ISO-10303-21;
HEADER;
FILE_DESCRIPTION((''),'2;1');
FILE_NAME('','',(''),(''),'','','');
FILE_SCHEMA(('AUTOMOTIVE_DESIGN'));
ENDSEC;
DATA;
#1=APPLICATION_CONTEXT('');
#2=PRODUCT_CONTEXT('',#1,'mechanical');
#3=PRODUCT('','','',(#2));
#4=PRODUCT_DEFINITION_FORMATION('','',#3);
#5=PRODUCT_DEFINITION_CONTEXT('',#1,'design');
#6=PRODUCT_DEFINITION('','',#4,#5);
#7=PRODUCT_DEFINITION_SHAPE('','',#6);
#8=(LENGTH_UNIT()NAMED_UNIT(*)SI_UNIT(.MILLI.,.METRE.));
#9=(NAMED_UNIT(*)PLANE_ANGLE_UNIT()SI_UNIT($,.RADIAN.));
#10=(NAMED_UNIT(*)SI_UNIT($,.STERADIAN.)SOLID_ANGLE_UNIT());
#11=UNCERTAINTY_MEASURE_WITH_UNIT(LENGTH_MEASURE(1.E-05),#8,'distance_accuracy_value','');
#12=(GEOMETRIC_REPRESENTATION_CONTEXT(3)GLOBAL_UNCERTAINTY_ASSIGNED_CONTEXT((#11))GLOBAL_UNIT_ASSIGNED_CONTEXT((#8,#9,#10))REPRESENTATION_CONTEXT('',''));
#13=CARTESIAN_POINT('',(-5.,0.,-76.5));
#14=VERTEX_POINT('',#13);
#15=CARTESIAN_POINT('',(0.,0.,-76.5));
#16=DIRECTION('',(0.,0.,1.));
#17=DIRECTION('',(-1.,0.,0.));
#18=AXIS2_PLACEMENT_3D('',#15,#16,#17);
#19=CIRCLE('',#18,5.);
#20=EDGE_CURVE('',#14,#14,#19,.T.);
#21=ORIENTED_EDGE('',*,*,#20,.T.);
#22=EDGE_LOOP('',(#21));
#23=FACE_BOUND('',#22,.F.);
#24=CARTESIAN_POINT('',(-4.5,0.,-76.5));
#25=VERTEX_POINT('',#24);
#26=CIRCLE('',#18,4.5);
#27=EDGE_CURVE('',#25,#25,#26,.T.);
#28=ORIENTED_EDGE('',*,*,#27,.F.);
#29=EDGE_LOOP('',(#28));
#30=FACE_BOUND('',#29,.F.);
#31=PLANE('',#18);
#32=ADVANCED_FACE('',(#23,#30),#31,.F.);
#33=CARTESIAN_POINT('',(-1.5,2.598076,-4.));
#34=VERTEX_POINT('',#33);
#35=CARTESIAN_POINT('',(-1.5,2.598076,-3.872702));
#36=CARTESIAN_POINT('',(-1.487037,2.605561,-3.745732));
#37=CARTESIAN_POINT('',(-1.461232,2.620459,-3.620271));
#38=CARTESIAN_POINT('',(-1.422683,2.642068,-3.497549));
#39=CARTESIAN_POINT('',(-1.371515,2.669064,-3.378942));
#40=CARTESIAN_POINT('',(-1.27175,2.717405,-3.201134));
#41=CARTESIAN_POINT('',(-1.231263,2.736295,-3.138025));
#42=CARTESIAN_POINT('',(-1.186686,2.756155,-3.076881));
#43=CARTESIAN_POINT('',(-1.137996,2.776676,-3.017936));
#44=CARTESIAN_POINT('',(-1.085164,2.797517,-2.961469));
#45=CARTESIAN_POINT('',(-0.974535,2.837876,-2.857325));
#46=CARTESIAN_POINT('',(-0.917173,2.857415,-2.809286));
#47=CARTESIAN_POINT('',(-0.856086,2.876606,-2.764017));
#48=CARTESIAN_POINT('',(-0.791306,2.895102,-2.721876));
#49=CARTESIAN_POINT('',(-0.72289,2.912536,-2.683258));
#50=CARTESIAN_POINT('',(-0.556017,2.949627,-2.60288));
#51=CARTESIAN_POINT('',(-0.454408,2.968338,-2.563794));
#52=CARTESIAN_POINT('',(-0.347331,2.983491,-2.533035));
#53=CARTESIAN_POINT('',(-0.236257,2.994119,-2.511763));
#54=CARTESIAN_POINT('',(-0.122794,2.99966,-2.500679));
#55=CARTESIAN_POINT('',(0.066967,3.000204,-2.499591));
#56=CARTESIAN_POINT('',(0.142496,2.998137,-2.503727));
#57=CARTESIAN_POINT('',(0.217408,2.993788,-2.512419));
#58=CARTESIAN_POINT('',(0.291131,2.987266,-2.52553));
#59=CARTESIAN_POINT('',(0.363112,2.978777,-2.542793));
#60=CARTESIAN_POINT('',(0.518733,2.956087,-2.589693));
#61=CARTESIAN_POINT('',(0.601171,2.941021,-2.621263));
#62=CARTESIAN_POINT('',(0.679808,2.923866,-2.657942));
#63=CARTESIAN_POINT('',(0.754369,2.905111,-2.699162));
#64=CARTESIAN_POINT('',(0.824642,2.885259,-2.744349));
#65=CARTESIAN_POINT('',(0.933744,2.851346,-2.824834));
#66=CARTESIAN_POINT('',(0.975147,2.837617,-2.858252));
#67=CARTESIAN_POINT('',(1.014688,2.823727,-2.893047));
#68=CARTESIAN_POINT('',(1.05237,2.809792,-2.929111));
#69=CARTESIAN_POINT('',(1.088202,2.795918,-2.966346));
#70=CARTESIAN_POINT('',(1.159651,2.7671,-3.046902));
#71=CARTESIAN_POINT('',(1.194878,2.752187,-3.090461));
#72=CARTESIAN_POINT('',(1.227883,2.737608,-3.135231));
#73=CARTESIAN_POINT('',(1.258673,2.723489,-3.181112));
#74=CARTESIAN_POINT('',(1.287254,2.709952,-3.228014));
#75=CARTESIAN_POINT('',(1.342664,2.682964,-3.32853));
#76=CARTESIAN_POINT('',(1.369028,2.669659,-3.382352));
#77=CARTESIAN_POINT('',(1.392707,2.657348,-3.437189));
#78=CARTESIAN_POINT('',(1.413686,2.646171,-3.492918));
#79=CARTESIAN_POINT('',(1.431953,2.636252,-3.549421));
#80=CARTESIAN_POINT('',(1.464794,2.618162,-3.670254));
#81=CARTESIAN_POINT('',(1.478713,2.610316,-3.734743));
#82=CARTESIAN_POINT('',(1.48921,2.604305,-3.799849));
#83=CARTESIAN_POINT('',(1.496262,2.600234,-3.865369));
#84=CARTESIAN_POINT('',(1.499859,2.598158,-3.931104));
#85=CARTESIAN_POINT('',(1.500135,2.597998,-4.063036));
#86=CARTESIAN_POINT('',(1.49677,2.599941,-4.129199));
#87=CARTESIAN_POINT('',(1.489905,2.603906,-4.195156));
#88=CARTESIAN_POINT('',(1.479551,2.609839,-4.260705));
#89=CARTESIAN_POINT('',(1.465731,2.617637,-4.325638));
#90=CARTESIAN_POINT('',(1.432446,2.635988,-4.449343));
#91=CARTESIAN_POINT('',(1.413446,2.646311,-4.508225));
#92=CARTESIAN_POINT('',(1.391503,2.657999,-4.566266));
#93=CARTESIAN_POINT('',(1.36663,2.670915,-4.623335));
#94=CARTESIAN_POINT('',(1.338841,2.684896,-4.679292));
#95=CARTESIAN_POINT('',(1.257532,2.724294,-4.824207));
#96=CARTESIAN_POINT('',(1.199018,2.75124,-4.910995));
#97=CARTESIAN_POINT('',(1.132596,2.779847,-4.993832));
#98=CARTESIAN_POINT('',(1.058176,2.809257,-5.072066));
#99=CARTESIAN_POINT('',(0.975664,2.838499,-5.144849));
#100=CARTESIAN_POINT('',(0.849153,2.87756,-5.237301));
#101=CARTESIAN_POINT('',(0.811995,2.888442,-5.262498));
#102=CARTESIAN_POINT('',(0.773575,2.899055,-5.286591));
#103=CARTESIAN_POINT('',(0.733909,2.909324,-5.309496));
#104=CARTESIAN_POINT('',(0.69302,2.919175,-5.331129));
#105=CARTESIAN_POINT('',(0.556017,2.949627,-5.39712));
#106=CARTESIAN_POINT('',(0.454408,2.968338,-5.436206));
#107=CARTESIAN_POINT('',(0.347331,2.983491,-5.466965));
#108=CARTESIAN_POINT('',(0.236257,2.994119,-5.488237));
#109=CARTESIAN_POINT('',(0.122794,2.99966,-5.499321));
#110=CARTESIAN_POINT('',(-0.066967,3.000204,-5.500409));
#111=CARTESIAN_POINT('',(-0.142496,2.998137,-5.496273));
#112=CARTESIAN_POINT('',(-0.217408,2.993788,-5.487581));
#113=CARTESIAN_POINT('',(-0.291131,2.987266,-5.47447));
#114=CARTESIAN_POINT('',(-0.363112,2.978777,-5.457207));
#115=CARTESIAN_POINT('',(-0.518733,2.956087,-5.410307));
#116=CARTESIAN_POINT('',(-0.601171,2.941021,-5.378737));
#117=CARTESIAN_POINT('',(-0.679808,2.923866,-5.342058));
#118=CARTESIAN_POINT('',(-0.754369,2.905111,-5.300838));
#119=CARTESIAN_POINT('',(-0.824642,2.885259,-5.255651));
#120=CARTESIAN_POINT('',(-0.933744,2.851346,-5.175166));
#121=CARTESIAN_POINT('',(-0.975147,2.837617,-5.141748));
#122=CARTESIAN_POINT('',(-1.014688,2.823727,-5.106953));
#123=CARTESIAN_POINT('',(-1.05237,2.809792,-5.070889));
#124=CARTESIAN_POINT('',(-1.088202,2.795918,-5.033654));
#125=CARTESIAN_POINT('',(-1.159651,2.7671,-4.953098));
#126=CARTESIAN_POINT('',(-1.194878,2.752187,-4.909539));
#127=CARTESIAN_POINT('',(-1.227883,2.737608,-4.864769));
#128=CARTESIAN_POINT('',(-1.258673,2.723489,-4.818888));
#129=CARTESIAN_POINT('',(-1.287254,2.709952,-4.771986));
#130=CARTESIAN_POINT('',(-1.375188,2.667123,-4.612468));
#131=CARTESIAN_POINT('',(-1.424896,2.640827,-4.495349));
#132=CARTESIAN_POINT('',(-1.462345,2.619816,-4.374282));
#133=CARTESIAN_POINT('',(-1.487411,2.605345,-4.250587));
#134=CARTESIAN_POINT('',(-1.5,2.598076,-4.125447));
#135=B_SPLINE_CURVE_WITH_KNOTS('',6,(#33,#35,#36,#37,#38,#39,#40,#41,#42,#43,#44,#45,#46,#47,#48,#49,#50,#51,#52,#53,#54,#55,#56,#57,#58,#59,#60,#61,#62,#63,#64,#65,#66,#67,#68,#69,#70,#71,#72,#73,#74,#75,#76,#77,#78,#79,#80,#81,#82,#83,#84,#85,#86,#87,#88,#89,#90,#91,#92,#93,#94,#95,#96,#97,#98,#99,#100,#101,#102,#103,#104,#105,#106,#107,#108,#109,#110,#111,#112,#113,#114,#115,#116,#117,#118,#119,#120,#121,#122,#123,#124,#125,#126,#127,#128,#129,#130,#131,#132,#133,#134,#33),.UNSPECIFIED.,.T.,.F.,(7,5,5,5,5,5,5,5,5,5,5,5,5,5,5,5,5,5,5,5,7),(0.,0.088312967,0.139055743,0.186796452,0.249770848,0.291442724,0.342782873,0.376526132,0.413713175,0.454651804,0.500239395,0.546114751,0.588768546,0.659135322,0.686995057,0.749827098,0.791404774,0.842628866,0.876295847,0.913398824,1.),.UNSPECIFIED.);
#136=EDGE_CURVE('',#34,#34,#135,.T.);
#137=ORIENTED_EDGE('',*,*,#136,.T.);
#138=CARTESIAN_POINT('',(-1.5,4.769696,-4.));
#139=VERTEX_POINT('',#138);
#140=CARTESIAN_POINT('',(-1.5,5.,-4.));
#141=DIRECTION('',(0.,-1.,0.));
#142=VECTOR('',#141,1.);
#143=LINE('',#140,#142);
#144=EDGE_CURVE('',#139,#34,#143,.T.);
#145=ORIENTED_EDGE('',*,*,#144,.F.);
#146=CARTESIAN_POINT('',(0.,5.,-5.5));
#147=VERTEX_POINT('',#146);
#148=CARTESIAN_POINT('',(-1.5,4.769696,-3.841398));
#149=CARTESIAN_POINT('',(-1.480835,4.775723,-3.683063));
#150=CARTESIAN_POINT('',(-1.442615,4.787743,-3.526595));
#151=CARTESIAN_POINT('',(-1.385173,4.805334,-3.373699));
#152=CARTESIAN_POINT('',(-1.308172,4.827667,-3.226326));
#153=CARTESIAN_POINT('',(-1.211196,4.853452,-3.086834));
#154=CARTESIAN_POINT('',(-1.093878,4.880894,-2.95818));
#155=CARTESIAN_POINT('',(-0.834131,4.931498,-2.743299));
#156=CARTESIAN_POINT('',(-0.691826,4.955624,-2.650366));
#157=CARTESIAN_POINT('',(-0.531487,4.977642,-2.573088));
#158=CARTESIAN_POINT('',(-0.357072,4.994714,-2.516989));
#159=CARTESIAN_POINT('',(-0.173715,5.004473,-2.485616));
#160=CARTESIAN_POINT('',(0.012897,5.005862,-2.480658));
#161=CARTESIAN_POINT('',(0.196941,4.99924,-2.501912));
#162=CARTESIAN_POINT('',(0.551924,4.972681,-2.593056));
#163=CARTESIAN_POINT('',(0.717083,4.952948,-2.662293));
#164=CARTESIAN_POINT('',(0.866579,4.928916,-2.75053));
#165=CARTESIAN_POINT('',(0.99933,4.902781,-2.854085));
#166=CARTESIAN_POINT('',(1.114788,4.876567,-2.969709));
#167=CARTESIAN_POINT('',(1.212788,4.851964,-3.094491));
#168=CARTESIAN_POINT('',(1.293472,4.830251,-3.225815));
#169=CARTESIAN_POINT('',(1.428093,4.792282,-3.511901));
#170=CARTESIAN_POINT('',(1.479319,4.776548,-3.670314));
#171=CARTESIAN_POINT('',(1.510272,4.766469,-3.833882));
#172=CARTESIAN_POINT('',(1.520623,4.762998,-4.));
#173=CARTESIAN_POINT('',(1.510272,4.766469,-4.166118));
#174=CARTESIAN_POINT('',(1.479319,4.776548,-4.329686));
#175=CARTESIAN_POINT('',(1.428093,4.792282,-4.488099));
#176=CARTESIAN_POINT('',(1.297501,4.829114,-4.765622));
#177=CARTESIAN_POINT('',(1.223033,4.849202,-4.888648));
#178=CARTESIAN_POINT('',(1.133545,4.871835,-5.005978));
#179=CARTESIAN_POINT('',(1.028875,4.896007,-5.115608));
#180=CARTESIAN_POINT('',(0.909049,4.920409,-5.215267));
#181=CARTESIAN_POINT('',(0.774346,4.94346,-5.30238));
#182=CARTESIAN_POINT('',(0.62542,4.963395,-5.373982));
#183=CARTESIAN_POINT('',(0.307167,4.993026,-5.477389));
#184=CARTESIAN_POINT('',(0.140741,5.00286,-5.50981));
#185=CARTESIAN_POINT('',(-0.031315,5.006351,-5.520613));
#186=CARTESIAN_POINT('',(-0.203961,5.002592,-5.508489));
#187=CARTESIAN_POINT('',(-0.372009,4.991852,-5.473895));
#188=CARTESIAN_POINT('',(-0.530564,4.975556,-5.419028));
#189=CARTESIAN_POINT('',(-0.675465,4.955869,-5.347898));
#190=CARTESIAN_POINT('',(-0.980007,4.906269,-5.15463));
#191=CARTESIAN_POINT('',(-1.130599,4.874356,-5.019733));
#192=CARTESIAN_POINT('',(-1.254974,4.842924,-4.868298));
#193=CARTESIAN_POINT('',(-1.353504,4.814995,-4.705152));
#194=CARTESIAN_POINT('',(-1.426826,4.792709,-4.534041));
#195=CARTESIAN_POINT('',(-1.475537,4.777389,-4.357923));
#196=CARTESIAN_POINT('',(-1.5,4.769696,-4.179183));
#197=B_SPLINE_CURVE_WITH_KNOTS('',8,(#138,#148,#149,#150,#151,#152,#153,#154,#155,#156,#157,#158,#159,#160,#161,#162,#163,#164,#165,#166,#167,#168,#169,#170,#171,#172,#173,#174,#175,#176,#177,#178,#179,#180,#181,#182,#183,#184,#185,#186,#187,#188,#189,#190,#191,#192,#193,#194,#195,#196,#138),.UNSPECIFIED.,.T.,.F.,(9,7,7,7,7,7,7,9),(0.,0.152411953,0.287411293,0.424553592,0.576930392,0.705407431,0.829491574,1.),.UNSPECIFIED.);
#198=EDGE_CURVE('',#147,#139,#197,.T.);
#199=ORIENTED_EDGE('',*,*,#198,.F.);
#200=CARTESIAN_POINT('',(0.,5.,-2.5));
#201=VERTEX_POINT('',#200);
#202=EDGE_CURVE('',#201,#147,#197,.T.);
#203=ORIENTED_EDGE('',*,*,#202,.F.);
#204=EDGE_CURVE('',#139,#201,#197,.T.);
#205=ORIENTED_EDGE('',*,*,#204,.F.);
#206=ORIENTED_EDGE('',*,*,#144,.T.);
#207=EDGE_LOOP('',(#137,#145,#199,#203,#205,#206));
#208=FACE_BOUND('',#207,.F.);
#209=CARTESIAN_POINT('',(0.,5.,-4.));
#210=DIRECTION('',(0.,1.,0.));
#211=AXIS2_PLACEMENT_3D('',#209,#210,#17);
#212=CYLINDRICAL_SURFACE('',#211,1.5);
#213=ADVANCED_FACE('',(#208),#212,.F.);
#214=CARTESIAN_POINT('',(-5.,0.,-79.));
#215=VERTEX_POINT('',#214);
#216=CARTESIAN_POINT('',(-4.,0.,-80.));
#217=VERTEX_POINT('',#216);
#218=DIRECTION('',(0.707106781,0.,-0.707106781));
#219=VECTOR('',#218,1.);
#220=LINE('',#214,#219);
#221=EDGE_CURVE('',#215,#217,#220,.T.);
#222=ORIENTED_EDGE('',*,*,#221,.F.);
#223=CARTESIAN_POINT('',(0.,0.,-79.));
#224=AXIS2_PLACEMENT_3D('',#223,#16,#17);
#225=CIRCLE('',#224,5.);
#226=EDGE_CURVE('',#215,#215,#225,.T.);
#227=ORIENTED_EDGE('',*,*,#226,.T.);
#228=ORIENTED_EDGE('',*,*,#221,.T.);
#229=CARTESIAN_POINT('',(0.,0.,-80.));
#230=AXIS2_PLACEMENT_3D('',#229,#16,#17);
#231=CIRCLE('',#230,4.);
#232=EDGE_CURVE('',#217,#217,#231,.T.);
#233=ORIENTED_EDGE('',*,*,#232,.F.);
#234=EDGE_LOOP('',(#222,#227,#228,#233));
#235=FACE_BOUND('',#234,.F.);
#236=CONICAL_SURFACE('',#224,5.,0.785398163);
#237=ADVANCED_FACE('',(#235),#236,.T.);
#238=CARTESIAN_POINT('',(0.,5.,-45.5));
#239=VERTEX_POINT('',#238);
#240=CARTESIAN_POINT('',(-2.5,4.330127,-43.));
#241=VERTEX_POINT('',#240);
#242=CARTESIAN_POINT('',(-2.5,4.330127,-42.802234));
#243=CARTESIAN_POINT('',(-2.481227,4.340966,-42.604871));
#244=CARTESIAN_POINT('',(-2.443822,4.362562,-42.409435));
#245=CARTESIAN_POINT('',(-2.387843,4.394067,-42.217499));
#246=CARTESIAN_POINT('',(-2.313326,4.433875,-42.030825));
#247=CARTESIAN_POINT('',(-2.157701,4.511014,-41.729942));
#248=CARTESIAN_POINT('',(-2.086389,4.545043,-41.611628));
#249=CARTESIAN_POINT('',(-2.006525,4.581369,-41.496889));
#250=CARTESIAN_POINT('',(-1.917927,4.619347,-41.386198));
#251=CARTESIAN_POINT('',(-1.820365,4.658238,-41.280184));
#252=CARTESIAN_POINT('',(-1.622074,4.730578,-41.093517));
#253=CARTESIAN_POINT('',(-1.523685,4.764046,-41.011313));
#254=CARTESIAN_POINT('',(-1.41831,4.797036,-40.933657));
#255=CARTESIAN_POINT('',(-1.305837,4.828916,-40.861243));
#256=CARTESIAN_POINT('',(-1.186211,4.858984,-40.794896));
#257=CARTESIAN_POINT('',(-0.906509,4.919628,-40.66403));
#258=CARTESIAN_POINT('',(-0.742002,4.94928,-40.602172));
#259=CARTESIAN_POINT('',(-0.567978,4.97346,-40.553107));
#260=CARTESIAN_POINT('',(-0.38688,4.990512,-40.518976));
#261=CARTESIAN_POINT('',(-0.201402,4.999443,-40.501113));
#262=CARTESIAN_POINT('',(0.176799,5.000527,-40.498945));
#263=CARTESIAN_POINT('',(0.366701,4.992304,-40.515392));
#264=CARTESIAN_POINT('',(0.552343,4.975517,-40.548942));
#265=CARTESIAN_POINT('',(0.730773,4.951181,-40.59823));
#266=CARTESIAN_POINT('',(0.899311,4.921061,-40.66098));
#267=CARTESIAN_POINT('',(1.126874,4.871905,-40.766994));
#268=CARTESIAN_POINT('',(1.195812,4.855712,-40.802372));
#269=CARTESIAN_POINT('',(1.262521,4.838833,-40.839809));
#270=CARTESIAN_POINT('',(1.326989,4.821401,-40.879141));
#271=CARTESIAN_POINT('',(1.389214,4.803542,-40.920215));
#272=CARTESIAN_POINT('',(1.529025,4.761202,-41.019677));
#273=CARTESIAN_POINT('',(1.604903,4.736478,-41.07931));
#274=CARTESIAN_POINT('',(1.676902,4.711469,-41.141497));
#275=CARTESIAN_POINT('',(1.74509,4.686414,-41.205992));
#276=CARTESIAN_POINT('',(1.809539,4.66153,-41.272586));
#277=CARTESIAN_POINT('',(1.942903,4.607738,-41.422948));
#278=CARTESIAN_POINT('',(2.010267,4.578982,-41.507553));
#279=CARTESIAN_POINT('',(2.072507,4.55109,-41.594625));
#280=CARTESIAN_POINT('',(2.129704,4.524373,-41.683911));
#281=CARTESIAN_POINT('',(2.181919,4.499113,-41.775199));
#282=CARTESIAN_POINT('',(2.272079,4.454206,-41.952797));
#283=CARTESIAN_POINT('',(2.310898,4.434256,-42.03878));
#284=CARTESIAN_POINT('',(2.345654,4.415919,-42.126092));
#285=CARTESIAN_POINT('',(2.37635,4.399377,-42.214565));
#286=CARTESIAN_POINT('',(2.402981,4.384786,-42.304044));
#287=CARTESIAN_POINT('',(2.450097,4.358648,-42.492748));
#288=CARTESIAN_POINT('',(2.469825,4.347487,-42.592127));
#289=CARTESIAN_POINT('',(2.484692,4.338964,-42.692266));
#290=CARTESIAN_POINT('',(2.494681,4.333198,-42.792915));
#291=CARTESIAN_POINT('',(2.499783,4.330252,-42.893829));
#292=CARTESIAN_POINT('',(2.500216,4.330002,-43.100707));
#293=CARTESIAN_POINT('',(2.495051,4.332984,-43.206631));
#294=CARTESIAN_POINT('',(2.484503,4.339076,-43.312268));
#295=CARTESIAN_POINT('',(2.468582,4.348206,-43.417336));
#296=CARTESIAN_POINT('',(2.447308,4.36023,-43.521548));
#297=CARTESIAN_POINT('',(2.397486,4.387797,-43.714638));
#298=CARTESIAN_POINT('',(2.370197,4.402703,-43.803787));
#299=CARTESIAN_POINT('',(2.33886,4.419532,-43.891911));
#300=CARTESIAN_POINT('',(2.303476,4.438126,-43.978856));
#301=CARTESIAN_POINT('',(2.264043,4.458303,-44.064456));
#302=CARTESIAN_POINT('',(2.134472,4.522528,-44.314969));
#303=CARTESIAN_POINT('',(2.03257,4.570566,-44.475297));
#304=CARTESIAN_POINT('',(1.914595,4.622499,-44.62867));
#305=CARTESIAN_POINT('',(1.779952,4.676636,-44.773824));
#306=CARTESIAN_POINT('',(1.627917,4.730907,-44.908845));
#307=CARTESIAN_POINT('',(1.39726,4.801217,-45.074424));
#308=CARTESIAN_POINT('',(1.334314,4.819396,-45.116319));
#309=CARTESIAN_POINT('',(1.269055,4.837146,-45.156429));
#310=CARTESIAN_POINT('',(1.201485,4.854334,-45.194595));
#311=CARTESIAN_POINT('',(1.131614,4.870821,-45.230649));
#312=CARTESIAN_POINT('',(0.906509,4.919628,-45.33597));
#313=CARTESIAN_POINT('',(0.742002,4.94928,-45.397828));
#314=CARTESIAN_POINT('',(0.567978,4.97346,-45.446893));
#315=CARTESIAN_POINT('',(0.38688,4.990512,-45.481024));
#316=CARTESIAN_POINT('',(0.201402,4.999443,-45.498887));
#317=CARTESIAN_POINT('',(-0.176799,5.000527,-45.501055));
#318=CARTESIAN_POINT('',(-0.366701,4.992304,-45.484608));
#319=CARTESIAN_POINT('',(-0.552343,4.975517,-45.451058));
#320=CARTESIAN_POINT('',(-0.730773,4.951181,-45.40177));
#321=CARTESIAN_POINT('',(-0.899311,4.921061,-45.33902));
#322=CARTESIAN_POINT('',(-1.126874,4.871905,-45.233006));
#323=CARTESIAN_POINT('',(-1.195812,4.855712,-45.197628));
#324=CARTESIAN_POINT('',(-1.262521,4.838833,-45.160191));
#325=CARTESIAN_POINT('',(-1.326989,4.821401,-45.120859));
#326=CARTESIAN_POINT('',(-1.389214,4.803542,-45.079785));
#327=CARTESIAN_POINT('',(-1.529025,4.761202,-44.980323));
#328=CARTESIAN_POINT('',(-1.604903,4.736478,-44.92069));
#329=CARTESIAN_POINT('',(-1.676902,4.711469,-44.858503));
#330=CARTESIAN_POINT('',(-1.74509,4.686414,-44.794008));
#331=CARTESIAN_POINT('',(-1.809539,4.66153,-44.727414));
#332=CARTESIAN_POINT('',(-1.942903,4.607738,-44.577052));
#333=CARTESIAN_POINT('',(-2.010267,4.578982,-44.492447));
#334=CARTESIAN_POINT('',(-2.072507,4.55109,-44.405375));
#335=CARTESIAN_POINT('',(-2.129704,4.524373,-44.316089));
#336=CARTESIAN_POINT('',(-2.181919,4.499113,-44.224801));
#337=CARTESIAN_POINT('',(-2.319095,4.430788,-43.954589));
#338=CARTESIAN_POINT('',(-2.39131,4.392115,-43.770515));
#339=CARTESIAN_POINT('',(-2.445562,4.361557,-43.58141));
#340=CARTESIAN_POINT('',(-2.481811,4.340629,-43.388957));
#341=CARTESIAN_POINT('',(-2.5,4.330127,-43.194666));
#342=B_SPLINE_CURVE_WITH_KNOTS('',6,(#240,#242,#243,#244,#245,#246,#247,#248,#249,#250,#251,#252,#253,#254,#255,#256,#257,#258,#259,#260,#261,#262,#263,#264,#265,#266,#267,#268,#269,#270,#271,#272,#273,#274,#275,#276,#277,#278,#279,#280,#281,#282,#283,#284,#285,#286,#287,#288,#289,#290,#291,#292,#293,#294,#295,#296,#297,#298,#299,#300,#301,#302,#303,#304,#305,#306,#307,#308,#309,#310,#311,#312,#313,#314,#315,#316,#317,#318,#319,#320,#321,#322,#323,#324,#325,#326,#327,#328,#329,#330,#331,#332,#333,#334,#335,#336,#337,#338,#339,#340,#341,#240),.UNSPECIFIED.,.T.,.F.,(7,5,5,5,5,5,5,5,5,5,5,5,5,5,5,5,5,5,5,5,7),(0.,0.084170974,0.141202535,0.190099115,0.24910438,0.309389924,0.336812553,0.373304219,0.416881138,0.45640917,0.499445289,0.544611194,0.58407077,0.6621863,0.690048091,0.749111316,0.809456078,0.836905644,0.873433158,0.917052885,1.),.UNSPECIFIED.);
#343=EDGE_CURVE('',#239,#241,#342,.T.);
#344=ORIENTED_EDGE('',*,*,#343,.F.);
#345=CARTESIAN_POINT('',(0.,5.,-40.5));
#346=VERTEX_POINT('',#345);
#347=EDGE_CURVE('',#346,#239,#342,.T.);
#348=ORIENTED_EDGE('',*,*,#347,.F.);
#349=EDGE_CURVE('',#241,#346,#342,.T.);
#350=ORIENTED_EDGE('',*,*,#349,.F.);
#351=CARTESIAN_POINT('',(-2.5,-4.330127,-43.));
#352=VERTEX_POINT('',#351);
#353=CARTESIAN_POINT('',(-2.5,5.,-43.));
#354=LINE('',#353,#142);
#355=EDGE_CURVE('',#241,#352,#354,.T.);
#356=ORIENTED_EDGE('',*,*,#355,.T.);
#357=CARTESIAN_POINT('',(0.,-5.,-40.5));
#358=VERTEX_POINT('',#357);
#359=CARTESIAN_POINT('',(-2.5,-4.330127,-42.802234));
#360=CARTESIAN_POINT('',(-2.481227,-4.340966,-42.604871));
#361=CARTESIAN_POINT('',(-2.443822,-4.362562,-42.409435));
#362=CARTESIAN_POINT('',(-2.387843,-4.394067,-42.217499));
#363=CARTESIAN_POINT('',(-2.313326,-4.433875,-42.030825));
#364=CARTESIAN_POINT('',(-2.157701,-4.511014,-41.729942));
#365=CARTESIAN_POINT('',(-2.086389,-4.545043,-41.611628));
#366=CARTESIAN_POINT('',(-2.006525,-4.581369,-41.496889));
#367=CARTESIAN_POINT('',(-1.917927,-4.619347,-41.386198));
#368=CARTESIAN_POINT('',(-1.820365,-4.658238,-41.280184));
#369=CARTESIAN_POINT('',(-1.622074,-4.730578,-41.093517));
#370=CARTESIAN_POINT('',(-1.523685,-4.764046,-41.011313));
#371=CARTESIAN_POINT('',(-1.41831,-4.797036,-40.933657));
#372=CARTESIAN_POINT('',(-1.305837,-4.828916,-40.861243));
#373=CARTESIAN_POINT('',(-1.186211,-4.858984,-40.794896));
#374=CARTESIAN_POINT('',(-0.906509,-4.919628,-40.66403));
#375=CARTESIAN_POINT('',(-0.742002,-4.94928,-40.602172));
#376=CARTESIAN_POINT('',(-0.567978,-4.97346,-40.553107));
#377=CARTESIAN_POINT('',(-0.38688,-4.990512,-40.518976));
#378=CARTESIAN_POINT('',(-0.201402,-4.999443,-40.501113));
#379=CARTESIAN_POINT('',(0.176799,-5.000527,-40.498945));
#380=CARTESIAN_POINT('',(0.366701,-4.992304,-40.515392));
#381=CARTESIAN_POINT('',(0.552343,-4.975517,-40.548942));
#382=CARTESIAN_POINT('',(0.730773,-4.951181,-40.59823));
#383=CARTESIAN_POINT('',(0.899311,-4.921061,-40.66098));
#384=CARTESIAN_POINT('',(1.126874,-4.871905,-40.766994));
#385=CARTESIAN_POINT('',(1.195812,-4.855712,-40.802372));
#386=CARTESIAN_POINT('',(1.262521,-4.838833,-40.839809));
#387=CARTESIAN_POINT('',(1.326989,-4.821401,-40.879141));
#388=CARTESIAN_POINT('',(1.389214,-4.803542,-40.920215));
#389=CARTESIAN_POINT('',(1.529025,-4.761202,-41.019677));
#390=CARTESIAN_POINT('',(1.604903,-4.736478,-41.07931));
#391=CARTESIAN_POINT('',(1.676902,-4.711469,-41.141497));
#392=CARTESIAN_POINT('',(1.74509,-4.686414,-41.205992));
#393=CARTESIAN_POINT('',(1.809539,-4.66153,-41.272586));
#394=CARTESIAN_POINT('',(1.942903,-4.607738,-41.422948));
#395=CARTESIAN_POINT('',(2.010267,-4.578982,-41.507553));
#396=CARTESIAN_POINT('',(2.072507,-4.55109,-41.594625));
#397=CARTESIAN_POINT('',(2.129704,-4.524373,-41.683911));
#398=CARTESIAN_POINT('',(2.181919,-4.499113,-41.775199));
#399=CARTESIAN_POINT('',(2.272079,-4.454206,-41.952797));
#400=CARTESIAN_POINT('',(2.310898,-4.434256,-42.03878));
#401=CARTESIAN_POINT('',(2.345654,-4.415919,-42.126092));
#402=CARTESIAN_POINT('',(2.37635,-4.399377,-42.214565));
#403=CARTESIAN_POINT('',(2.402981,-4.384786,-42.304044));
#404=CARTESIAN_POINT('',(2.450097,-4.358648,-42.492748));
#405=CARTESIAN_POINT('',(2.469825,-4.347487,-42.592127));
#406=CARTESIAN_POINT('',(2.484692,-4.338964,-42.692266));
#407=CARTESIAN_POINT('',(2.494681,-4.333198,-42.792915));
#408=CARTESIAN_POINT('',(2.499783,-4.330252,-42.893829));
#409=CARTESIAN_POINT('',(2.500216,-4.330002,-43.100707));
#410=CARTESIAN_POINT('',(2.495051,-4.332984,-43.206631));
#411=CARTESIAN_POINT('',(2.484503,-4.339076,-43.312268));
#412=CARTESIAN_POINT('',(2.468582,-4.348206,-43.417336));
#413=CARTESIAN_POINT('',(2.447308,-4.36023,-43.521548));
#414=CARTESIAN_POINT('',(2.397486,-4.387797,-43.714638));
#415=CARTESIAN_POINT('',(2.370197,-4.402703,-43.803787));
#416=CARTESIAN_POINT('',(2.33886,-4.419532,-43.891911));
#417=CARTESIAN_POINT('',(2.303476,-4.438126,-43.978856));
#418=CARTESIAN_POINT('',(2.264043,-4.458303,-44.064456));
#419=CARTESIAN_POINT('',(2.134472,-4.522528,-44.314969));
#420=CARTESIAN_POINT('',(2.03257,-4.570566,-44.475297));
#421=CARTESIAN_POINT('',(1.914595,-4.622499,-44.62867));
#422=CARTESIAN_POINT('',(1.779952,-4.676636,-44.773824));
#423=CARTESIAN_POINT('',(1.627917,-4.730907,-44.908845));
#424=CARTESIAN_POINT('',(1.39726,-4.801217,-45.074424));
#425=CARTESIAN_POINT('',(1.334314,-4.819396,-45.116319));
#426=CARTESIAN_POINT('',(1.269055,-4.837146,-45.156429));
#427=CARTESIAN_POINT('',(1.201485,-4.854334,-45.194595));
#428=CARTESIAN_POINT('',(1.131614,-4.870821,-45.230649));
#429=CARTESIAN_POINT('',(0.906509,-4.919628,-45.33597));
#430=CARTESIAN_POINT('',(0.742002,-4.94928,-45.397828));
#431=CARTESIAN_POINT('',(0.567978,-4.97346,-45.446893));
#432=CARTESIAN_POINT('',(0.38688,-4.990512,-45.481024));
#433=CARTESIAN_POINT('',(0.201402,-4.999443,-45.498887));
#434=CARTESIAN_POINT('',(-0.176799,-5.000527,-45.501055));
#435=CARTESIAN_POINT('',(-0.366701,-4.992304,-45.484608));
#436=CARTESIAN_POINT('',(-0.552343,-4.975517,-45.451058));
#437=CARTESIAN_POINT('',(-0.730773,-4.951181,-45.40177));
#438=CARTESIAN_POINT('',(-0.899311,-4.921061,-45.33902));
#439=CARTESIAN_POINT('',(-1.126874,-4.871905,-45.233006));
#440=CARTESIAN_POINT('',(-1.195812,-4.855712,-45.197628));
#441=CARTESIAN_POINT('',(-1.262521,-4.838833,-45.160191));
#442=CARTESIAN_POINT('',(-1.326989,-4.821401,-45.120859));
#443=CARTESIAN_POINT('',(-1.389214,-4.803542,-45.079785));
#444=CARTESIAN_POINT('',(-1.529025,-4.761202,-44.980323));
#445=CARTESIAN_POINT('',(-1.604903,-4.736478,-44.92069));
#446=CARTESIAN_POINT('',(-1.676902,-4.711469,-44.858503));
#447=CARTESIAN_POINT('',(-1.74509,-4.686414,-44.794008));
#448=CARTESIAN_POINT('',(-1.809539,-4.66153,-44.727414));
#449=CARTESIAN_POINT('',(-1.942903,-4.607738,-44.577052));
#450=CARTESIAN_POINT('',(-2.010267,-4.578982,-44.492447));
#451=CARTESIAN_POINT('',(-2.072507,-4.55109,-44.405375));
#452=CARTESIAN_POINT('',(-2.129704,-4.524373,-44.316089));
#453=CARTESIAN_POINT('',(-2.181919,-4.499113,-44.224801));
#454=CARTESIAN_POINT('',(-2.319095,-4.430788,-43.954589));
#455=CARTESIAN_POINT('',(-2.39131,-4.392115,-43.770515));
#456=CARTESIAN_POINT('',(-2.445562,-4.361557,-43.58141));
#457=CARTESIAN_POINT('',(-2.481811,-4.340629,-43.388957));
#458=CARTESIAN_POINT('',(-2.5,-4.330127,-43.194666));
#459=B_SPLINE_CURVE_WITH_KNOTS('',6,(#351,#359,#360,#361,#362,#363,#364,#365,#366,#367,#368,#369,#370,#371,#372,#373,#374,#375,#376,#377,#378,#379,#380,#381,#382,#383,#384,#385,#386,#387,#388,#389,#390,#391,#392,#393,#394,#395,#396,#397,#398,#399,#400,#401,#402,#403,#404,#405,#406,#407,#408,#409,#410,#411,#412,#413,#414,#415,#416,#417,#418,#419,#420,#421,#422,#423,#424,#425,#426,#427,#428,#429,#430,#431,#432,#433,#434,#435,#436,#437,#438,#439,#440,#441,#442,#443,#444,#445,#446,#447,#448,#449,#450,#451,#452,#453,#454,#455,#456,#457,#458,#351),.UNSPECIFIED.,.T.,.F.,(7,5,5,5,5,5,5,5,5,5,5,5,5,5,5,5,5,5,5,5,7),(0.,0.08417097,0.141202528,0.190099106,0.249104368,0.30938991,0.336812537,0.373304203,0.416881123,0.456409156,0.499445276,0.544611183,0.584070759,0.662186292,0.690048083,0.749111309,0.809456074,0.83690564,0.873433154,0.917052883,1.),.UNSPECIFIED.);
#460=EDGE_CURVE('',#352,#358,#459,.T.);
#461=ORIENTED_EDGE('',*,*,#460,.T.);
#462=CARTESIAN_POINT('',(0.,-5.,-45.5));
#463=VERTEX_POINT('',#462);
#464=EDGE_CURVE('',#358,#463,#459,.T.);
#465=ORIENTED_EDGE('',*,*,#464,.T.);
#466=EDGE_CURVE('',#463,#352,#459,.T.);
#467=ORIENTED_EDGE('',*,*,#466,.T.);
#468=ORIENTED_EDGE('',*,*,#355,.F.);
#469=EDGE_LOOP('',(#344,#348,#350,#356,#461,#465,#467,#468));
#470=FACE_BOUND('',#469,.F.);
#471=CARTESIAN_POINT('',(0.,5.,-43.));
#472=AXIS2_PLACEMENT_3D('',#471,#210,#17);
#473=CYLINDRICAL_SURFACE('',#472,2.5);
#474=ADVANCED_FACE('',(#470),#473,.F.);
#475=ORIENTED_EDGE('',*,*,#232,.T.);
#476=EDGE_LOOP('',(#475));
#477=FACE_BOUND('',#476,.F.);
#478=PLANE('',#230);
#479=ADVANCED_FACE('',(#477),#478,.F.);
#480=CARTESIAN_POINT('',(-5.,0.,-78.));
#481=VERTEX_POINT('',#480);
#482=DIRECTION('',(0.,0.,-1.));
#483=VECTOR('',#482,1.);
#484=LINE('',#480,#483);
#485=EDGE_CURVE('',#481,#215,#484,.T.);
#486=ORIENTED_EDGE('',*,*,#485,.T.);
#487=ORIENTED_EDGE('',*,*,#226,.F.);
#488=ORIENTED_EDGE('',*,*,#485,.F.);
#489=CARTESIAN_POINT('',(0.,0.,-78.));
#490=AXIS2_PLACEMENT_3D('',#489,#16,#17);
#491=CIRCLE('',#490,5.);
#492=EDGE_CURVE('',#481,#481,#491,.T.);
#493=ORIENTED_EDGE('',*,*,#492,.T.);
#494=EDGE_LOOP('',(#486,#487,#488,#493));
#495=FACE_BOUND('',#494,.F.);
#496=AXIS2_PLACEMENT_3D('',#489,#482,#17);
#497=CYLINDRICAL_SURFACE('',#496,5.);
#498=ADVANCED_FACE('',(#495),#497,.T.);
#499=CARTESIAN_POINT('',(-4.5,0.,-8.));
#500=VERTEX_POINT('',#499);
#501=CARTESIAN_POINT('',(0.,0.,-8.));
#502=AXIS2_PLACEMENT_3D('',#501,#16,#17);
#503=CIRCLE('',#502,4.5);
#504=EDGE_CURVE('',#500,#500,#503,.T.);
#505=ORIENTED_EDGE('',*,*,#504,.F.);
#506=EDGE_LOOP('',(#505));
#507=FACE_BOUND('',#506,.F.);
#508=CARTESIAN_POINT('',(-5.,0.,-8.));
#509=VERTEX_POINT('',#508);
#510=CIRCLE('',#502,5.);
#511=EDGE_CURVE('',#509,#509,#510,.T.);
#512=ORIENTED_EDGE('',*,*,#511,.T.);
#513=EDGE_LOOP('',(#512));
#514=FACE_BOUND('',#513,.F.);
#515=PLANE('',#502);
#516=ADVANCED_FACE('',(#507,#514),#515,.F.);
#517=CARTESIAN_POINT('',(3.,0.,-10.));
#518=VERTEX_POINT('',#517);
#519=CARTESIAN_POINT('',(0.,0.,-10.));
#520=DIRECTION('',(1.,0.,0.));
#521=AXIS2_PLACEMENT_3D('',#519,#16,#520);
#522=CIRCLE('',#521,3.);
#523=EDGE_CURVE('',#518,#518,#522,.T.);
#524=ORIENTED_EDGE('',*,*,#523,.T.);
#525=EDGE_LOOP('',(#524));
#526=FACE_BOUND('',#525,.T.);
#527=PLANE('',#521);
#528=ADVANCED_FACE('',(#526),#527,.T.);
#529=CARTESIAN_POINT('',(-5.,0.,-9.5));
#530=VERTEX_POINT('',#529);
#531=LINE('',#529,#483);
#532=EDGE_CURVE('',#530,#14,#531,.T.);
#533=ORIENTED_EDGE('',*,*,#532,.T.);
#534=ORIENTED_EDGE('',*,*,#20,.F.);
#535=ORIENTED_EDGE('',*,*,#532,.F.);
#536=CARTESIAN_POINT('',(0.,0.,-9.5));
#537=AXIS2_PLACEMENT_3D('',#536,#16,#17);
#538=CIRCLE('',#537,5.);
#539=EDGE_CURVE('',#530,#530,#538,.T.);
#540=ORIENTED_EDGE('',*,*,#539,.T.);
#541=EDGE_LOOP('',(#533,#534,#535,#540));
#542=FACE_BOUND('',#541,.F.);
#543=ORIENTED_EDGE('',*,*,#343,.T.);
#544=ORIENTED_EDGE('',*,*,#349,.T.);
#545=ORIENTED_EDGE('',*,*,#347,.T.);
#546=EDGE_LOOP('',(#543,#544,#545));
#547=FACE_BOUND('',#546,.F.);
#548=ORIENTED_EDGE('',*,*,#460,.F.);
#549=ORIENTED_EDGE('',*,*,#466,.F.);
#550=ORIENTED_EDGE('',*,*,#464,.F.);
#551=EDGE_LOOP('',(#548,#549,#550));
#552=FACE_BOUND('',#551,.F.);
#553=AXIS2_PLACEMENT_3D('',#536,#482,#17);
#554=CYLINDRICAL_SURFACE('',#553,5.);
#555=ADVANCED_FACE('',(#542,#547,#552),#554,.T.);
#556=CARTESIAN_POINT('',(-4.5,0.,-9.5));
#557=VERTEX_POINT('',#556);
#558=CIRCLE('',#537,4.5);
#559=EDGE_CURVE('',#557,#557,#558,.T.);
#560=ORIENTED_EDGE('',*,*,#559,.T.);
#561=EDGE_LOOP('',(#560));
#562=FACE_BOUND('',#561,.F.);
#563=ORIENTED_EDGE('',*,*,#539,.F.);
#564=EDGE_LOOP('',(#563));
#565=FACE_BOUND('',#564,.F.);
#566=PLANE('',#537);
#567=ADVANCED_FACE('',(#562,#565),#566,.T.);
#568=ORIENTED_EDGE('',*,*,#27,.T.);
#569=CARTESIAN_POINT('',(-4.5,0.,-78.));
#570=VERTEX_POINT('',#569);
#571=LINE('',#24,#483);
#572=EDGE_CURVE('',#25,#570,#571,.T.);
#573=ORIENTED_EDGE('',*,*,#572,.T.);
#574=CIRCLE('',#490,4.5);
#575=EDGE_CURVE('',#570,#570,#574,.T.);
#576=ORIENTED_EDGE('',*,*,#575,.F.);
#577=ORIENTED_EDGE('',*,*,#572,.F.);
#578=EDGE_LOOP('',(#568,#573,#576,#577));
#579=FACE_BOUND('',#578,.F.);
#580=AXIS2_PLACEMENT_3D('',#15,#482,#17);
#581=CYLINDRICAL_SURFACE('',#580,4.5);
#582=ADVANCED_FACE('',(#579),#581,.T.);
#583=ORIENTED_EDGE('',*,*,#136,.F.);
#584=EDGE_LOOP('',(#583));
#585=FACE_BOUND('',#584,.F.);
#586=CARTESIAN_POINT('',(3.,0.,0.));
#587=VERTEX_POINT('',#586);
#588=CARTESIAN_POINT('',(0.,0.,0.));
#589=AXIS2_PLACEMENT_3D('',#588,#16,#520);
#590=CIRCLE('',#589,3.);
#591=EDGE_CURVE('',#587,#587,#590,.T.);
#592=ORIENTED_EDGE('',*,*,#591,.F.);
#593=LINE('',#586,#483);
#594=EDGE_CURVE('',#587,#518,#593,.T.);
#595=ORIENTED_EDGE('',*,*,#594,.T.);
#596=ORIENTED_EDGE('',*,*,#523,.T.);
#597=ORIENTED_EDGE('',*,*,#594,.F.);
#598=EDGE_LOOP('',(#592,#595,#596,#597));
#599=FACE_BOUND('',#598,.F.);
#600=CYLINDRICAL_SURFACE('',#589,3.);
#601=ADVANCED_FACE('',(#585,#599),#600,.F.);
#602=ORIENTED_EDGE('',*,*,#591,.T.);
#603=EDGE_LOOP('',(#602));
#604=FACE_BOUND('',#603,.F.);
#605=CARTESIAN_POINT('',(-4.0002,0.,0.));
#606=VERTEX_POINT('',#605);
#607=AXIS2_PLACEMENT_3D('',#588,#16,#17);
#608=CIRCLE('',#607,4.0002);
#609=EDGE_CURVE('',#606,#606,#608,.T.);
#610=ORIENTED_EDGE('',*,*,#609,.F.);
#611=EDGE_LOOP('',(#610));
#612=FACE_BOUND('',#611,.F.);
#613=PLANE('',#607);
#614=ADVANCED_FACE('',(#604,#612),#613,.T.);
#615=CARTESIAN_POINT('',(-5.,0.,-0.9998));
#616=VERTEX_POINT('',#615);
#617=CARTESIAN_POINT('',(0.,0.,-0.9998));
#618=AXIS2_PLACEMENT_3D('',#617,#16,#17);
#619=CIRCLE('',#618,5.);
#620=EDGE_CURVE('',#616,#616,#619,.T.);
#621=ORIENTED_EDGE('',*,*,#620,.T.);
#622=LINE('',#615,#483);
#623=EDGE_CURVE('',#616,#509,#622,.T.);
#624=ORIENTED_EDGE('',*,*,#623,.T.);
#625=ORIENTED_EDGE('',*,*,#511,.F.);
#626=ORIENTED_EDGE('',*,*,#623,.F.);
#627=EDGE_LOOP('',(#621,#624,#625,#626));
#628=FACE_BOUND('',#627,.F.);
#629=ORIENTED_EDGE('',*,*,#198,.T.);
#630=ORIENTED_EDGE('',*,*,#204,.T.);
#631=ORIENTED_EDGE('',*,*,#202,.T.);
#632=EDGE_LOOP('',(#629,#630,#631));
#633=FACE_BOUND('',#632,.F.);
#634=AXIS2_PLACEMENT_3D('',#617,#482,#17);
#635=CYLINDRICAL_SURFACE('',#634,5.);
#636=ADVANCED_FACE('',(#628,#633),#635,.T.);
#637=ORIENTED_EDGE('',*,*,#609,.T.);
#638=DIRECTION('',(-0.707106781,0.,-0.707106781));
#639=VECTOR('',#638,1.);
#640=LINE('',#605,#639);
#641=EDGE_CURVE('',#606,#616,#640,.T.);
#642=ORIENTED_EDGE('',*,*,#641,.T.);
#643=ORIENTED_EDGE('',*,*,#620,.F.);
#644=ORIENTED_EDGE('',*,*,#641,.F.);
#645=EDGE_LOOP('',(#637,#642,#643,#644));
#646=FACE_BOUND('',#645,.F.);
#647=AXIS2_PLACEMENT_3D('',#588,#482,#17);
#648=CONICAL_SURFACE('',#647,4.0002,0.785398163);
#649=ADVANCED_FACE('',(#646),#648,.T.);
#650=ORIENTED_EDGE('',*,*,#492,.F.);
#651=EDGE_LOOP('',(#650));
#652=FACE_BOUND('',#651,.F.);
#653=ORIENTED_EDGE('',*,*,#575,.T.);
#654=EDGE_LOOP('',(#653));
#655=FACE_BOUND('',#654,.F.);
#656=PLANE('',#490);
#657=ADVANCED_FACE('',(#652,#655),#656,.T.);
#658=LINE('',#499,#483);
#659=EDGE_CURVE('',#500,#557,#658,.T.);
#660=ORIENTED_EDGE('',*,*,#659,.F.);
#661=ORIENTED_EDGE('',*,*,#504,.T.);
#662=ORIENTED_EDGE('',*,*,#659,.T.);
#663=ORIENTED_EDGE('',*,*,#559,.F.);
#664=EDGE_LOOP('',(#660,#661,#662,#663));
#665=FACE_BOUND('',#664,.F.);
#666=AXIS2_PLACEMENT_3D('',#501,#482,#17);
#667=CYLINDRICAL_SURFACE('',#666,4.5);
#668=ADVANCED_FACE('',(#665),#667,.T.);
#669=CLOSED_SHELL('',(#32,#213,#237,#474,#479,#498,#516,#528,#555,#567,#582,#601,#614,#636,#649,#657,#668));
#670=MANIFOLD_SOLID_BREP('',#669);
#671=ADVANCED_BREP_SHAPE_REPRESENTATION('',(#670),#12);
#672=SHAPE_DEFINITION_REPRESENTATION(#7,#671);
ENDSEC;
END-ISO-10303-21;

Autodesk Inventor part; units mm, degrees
ref_plane "YZ Plane" through (0, 0, 0) normal (1, 0, 0) x (0, 1, 0)
ref_plane "XZ Plane" through (0, 0, 0) normal (0, 1, 0) x (-1, 0, 0)
sketch "Sketch1" plane through (0, 0, 0) normal (0, 1, 0) x (-1, 0, 0)
  line L0 (0, 0) -> (4.0002, 0)
  line L1 (4.0002, 0) -> (5, -0.9998)
  line L2 (5, -0.9998) -> (5, -8)
  line L3 (5, -8) -> (4.5, -8)
  line L4 (4.5, -8) -> (4.5, -9.5)
  line L5 (4.5, -9.5) -> (5, -9.5)
  line L6 (5, -9.5) -> (5, -76.5)
  line L7 (5, -76.5) -> (4.5, -76.5)
  line L8 (4.5, -76.5) -> (4.5, -78)
  line L9 (4.5, -78) -> (5, -78)
  line L10 (5, -78) -> (5, -79)
  line L11 (5, -79) -> (4, -80)
  line L12 (4, -80) -> (0, -80)
  line L13 (0, -80) -> (0, 0)
  dimension "d9" = 80
  dimension "d10" = 5
  dimension "d11" = 0.5
  dimension "d12" = 1.5
  dimension "d13" = 1.5
  dimension "d14" = 2
  dimension "d15" = 1
  dimension "d16" = 135
  dimension "d17" = 67
  dimension "d18" = 135
  dimension "d19" = 1.414
revolve "Revolution1" add sketch "Sketch1" angle 360 about axis through (0, 0, -80) along (0, 0, 1)
sketch "Sketch2" plane through (0, 0, 0) normal (0, 0, 1) x (1, 0, 0)
  circle A0 centre (0, 0) radius 3
  dimension "d21" = 6
extrude "Extrusion1" cut sketch "Sketch2" against normal blind 10
ref_plane "Work Plane1" through (0, 5, 0) normal (0, 1, 0) x (-1, 0, 0)
sketch "Sketch3" plane through (0, 5, 0) normal (0, 1, 0) x (-1, 0, 0)
  line L0 (-5, -9.5) -> (5, -9.5) projected
  line L1 (-5, -76.5) -> (5, -76.5) projected
  line L2 (-5, -9.5) -> (-5, -76.5) projected
  line L3 (5, -9.5) -> (5, -76.5) projected
  circle A0 centre (0, -43) radius 2.5
  point P0 (0, 0)
  dimension "d25" = 5
  dimension "d26" = 67
  dimension "d27" = 33.5
extrude "Extrusion2" cut sketch "Sketch3" against normal blind 10 contours A0
sketch "Sketch4" plane through (0, 5, 0) normal (0, 1, 0) x (-1, 0, 0)
  line L0 (-5, -0.9998) -> (5, -0.9998) projected
  line L1 (-5, -8) -> (5, -8) projected
  line L2 (-5, -0.9998) -> (-5, -8) projected
  line L3 (5, -0.9998) -> (5, -8) projected
  circle A0 centre (0, -4) radius 1.5
  line L4 (-4.0002, 0) -> (4.0002, 0) projected
  point P0 (0, 0)
  dimension "d30" = 3
  dimension "d31" = 4
extrude "Extrusion3" cut sketch "Sketch4" against normal up to surface contours A0
thread "Thread1" size "M3x0.5" class "6H" standard "ANSI Metric M Profile" length 10
thread "Thread2" size "M5x0.8" class "6H" standard "ANSI Metric M Profile" length 10
equation "\"d27\" = 0.5 * d26"
properties part number "potentiometer_aksel"
